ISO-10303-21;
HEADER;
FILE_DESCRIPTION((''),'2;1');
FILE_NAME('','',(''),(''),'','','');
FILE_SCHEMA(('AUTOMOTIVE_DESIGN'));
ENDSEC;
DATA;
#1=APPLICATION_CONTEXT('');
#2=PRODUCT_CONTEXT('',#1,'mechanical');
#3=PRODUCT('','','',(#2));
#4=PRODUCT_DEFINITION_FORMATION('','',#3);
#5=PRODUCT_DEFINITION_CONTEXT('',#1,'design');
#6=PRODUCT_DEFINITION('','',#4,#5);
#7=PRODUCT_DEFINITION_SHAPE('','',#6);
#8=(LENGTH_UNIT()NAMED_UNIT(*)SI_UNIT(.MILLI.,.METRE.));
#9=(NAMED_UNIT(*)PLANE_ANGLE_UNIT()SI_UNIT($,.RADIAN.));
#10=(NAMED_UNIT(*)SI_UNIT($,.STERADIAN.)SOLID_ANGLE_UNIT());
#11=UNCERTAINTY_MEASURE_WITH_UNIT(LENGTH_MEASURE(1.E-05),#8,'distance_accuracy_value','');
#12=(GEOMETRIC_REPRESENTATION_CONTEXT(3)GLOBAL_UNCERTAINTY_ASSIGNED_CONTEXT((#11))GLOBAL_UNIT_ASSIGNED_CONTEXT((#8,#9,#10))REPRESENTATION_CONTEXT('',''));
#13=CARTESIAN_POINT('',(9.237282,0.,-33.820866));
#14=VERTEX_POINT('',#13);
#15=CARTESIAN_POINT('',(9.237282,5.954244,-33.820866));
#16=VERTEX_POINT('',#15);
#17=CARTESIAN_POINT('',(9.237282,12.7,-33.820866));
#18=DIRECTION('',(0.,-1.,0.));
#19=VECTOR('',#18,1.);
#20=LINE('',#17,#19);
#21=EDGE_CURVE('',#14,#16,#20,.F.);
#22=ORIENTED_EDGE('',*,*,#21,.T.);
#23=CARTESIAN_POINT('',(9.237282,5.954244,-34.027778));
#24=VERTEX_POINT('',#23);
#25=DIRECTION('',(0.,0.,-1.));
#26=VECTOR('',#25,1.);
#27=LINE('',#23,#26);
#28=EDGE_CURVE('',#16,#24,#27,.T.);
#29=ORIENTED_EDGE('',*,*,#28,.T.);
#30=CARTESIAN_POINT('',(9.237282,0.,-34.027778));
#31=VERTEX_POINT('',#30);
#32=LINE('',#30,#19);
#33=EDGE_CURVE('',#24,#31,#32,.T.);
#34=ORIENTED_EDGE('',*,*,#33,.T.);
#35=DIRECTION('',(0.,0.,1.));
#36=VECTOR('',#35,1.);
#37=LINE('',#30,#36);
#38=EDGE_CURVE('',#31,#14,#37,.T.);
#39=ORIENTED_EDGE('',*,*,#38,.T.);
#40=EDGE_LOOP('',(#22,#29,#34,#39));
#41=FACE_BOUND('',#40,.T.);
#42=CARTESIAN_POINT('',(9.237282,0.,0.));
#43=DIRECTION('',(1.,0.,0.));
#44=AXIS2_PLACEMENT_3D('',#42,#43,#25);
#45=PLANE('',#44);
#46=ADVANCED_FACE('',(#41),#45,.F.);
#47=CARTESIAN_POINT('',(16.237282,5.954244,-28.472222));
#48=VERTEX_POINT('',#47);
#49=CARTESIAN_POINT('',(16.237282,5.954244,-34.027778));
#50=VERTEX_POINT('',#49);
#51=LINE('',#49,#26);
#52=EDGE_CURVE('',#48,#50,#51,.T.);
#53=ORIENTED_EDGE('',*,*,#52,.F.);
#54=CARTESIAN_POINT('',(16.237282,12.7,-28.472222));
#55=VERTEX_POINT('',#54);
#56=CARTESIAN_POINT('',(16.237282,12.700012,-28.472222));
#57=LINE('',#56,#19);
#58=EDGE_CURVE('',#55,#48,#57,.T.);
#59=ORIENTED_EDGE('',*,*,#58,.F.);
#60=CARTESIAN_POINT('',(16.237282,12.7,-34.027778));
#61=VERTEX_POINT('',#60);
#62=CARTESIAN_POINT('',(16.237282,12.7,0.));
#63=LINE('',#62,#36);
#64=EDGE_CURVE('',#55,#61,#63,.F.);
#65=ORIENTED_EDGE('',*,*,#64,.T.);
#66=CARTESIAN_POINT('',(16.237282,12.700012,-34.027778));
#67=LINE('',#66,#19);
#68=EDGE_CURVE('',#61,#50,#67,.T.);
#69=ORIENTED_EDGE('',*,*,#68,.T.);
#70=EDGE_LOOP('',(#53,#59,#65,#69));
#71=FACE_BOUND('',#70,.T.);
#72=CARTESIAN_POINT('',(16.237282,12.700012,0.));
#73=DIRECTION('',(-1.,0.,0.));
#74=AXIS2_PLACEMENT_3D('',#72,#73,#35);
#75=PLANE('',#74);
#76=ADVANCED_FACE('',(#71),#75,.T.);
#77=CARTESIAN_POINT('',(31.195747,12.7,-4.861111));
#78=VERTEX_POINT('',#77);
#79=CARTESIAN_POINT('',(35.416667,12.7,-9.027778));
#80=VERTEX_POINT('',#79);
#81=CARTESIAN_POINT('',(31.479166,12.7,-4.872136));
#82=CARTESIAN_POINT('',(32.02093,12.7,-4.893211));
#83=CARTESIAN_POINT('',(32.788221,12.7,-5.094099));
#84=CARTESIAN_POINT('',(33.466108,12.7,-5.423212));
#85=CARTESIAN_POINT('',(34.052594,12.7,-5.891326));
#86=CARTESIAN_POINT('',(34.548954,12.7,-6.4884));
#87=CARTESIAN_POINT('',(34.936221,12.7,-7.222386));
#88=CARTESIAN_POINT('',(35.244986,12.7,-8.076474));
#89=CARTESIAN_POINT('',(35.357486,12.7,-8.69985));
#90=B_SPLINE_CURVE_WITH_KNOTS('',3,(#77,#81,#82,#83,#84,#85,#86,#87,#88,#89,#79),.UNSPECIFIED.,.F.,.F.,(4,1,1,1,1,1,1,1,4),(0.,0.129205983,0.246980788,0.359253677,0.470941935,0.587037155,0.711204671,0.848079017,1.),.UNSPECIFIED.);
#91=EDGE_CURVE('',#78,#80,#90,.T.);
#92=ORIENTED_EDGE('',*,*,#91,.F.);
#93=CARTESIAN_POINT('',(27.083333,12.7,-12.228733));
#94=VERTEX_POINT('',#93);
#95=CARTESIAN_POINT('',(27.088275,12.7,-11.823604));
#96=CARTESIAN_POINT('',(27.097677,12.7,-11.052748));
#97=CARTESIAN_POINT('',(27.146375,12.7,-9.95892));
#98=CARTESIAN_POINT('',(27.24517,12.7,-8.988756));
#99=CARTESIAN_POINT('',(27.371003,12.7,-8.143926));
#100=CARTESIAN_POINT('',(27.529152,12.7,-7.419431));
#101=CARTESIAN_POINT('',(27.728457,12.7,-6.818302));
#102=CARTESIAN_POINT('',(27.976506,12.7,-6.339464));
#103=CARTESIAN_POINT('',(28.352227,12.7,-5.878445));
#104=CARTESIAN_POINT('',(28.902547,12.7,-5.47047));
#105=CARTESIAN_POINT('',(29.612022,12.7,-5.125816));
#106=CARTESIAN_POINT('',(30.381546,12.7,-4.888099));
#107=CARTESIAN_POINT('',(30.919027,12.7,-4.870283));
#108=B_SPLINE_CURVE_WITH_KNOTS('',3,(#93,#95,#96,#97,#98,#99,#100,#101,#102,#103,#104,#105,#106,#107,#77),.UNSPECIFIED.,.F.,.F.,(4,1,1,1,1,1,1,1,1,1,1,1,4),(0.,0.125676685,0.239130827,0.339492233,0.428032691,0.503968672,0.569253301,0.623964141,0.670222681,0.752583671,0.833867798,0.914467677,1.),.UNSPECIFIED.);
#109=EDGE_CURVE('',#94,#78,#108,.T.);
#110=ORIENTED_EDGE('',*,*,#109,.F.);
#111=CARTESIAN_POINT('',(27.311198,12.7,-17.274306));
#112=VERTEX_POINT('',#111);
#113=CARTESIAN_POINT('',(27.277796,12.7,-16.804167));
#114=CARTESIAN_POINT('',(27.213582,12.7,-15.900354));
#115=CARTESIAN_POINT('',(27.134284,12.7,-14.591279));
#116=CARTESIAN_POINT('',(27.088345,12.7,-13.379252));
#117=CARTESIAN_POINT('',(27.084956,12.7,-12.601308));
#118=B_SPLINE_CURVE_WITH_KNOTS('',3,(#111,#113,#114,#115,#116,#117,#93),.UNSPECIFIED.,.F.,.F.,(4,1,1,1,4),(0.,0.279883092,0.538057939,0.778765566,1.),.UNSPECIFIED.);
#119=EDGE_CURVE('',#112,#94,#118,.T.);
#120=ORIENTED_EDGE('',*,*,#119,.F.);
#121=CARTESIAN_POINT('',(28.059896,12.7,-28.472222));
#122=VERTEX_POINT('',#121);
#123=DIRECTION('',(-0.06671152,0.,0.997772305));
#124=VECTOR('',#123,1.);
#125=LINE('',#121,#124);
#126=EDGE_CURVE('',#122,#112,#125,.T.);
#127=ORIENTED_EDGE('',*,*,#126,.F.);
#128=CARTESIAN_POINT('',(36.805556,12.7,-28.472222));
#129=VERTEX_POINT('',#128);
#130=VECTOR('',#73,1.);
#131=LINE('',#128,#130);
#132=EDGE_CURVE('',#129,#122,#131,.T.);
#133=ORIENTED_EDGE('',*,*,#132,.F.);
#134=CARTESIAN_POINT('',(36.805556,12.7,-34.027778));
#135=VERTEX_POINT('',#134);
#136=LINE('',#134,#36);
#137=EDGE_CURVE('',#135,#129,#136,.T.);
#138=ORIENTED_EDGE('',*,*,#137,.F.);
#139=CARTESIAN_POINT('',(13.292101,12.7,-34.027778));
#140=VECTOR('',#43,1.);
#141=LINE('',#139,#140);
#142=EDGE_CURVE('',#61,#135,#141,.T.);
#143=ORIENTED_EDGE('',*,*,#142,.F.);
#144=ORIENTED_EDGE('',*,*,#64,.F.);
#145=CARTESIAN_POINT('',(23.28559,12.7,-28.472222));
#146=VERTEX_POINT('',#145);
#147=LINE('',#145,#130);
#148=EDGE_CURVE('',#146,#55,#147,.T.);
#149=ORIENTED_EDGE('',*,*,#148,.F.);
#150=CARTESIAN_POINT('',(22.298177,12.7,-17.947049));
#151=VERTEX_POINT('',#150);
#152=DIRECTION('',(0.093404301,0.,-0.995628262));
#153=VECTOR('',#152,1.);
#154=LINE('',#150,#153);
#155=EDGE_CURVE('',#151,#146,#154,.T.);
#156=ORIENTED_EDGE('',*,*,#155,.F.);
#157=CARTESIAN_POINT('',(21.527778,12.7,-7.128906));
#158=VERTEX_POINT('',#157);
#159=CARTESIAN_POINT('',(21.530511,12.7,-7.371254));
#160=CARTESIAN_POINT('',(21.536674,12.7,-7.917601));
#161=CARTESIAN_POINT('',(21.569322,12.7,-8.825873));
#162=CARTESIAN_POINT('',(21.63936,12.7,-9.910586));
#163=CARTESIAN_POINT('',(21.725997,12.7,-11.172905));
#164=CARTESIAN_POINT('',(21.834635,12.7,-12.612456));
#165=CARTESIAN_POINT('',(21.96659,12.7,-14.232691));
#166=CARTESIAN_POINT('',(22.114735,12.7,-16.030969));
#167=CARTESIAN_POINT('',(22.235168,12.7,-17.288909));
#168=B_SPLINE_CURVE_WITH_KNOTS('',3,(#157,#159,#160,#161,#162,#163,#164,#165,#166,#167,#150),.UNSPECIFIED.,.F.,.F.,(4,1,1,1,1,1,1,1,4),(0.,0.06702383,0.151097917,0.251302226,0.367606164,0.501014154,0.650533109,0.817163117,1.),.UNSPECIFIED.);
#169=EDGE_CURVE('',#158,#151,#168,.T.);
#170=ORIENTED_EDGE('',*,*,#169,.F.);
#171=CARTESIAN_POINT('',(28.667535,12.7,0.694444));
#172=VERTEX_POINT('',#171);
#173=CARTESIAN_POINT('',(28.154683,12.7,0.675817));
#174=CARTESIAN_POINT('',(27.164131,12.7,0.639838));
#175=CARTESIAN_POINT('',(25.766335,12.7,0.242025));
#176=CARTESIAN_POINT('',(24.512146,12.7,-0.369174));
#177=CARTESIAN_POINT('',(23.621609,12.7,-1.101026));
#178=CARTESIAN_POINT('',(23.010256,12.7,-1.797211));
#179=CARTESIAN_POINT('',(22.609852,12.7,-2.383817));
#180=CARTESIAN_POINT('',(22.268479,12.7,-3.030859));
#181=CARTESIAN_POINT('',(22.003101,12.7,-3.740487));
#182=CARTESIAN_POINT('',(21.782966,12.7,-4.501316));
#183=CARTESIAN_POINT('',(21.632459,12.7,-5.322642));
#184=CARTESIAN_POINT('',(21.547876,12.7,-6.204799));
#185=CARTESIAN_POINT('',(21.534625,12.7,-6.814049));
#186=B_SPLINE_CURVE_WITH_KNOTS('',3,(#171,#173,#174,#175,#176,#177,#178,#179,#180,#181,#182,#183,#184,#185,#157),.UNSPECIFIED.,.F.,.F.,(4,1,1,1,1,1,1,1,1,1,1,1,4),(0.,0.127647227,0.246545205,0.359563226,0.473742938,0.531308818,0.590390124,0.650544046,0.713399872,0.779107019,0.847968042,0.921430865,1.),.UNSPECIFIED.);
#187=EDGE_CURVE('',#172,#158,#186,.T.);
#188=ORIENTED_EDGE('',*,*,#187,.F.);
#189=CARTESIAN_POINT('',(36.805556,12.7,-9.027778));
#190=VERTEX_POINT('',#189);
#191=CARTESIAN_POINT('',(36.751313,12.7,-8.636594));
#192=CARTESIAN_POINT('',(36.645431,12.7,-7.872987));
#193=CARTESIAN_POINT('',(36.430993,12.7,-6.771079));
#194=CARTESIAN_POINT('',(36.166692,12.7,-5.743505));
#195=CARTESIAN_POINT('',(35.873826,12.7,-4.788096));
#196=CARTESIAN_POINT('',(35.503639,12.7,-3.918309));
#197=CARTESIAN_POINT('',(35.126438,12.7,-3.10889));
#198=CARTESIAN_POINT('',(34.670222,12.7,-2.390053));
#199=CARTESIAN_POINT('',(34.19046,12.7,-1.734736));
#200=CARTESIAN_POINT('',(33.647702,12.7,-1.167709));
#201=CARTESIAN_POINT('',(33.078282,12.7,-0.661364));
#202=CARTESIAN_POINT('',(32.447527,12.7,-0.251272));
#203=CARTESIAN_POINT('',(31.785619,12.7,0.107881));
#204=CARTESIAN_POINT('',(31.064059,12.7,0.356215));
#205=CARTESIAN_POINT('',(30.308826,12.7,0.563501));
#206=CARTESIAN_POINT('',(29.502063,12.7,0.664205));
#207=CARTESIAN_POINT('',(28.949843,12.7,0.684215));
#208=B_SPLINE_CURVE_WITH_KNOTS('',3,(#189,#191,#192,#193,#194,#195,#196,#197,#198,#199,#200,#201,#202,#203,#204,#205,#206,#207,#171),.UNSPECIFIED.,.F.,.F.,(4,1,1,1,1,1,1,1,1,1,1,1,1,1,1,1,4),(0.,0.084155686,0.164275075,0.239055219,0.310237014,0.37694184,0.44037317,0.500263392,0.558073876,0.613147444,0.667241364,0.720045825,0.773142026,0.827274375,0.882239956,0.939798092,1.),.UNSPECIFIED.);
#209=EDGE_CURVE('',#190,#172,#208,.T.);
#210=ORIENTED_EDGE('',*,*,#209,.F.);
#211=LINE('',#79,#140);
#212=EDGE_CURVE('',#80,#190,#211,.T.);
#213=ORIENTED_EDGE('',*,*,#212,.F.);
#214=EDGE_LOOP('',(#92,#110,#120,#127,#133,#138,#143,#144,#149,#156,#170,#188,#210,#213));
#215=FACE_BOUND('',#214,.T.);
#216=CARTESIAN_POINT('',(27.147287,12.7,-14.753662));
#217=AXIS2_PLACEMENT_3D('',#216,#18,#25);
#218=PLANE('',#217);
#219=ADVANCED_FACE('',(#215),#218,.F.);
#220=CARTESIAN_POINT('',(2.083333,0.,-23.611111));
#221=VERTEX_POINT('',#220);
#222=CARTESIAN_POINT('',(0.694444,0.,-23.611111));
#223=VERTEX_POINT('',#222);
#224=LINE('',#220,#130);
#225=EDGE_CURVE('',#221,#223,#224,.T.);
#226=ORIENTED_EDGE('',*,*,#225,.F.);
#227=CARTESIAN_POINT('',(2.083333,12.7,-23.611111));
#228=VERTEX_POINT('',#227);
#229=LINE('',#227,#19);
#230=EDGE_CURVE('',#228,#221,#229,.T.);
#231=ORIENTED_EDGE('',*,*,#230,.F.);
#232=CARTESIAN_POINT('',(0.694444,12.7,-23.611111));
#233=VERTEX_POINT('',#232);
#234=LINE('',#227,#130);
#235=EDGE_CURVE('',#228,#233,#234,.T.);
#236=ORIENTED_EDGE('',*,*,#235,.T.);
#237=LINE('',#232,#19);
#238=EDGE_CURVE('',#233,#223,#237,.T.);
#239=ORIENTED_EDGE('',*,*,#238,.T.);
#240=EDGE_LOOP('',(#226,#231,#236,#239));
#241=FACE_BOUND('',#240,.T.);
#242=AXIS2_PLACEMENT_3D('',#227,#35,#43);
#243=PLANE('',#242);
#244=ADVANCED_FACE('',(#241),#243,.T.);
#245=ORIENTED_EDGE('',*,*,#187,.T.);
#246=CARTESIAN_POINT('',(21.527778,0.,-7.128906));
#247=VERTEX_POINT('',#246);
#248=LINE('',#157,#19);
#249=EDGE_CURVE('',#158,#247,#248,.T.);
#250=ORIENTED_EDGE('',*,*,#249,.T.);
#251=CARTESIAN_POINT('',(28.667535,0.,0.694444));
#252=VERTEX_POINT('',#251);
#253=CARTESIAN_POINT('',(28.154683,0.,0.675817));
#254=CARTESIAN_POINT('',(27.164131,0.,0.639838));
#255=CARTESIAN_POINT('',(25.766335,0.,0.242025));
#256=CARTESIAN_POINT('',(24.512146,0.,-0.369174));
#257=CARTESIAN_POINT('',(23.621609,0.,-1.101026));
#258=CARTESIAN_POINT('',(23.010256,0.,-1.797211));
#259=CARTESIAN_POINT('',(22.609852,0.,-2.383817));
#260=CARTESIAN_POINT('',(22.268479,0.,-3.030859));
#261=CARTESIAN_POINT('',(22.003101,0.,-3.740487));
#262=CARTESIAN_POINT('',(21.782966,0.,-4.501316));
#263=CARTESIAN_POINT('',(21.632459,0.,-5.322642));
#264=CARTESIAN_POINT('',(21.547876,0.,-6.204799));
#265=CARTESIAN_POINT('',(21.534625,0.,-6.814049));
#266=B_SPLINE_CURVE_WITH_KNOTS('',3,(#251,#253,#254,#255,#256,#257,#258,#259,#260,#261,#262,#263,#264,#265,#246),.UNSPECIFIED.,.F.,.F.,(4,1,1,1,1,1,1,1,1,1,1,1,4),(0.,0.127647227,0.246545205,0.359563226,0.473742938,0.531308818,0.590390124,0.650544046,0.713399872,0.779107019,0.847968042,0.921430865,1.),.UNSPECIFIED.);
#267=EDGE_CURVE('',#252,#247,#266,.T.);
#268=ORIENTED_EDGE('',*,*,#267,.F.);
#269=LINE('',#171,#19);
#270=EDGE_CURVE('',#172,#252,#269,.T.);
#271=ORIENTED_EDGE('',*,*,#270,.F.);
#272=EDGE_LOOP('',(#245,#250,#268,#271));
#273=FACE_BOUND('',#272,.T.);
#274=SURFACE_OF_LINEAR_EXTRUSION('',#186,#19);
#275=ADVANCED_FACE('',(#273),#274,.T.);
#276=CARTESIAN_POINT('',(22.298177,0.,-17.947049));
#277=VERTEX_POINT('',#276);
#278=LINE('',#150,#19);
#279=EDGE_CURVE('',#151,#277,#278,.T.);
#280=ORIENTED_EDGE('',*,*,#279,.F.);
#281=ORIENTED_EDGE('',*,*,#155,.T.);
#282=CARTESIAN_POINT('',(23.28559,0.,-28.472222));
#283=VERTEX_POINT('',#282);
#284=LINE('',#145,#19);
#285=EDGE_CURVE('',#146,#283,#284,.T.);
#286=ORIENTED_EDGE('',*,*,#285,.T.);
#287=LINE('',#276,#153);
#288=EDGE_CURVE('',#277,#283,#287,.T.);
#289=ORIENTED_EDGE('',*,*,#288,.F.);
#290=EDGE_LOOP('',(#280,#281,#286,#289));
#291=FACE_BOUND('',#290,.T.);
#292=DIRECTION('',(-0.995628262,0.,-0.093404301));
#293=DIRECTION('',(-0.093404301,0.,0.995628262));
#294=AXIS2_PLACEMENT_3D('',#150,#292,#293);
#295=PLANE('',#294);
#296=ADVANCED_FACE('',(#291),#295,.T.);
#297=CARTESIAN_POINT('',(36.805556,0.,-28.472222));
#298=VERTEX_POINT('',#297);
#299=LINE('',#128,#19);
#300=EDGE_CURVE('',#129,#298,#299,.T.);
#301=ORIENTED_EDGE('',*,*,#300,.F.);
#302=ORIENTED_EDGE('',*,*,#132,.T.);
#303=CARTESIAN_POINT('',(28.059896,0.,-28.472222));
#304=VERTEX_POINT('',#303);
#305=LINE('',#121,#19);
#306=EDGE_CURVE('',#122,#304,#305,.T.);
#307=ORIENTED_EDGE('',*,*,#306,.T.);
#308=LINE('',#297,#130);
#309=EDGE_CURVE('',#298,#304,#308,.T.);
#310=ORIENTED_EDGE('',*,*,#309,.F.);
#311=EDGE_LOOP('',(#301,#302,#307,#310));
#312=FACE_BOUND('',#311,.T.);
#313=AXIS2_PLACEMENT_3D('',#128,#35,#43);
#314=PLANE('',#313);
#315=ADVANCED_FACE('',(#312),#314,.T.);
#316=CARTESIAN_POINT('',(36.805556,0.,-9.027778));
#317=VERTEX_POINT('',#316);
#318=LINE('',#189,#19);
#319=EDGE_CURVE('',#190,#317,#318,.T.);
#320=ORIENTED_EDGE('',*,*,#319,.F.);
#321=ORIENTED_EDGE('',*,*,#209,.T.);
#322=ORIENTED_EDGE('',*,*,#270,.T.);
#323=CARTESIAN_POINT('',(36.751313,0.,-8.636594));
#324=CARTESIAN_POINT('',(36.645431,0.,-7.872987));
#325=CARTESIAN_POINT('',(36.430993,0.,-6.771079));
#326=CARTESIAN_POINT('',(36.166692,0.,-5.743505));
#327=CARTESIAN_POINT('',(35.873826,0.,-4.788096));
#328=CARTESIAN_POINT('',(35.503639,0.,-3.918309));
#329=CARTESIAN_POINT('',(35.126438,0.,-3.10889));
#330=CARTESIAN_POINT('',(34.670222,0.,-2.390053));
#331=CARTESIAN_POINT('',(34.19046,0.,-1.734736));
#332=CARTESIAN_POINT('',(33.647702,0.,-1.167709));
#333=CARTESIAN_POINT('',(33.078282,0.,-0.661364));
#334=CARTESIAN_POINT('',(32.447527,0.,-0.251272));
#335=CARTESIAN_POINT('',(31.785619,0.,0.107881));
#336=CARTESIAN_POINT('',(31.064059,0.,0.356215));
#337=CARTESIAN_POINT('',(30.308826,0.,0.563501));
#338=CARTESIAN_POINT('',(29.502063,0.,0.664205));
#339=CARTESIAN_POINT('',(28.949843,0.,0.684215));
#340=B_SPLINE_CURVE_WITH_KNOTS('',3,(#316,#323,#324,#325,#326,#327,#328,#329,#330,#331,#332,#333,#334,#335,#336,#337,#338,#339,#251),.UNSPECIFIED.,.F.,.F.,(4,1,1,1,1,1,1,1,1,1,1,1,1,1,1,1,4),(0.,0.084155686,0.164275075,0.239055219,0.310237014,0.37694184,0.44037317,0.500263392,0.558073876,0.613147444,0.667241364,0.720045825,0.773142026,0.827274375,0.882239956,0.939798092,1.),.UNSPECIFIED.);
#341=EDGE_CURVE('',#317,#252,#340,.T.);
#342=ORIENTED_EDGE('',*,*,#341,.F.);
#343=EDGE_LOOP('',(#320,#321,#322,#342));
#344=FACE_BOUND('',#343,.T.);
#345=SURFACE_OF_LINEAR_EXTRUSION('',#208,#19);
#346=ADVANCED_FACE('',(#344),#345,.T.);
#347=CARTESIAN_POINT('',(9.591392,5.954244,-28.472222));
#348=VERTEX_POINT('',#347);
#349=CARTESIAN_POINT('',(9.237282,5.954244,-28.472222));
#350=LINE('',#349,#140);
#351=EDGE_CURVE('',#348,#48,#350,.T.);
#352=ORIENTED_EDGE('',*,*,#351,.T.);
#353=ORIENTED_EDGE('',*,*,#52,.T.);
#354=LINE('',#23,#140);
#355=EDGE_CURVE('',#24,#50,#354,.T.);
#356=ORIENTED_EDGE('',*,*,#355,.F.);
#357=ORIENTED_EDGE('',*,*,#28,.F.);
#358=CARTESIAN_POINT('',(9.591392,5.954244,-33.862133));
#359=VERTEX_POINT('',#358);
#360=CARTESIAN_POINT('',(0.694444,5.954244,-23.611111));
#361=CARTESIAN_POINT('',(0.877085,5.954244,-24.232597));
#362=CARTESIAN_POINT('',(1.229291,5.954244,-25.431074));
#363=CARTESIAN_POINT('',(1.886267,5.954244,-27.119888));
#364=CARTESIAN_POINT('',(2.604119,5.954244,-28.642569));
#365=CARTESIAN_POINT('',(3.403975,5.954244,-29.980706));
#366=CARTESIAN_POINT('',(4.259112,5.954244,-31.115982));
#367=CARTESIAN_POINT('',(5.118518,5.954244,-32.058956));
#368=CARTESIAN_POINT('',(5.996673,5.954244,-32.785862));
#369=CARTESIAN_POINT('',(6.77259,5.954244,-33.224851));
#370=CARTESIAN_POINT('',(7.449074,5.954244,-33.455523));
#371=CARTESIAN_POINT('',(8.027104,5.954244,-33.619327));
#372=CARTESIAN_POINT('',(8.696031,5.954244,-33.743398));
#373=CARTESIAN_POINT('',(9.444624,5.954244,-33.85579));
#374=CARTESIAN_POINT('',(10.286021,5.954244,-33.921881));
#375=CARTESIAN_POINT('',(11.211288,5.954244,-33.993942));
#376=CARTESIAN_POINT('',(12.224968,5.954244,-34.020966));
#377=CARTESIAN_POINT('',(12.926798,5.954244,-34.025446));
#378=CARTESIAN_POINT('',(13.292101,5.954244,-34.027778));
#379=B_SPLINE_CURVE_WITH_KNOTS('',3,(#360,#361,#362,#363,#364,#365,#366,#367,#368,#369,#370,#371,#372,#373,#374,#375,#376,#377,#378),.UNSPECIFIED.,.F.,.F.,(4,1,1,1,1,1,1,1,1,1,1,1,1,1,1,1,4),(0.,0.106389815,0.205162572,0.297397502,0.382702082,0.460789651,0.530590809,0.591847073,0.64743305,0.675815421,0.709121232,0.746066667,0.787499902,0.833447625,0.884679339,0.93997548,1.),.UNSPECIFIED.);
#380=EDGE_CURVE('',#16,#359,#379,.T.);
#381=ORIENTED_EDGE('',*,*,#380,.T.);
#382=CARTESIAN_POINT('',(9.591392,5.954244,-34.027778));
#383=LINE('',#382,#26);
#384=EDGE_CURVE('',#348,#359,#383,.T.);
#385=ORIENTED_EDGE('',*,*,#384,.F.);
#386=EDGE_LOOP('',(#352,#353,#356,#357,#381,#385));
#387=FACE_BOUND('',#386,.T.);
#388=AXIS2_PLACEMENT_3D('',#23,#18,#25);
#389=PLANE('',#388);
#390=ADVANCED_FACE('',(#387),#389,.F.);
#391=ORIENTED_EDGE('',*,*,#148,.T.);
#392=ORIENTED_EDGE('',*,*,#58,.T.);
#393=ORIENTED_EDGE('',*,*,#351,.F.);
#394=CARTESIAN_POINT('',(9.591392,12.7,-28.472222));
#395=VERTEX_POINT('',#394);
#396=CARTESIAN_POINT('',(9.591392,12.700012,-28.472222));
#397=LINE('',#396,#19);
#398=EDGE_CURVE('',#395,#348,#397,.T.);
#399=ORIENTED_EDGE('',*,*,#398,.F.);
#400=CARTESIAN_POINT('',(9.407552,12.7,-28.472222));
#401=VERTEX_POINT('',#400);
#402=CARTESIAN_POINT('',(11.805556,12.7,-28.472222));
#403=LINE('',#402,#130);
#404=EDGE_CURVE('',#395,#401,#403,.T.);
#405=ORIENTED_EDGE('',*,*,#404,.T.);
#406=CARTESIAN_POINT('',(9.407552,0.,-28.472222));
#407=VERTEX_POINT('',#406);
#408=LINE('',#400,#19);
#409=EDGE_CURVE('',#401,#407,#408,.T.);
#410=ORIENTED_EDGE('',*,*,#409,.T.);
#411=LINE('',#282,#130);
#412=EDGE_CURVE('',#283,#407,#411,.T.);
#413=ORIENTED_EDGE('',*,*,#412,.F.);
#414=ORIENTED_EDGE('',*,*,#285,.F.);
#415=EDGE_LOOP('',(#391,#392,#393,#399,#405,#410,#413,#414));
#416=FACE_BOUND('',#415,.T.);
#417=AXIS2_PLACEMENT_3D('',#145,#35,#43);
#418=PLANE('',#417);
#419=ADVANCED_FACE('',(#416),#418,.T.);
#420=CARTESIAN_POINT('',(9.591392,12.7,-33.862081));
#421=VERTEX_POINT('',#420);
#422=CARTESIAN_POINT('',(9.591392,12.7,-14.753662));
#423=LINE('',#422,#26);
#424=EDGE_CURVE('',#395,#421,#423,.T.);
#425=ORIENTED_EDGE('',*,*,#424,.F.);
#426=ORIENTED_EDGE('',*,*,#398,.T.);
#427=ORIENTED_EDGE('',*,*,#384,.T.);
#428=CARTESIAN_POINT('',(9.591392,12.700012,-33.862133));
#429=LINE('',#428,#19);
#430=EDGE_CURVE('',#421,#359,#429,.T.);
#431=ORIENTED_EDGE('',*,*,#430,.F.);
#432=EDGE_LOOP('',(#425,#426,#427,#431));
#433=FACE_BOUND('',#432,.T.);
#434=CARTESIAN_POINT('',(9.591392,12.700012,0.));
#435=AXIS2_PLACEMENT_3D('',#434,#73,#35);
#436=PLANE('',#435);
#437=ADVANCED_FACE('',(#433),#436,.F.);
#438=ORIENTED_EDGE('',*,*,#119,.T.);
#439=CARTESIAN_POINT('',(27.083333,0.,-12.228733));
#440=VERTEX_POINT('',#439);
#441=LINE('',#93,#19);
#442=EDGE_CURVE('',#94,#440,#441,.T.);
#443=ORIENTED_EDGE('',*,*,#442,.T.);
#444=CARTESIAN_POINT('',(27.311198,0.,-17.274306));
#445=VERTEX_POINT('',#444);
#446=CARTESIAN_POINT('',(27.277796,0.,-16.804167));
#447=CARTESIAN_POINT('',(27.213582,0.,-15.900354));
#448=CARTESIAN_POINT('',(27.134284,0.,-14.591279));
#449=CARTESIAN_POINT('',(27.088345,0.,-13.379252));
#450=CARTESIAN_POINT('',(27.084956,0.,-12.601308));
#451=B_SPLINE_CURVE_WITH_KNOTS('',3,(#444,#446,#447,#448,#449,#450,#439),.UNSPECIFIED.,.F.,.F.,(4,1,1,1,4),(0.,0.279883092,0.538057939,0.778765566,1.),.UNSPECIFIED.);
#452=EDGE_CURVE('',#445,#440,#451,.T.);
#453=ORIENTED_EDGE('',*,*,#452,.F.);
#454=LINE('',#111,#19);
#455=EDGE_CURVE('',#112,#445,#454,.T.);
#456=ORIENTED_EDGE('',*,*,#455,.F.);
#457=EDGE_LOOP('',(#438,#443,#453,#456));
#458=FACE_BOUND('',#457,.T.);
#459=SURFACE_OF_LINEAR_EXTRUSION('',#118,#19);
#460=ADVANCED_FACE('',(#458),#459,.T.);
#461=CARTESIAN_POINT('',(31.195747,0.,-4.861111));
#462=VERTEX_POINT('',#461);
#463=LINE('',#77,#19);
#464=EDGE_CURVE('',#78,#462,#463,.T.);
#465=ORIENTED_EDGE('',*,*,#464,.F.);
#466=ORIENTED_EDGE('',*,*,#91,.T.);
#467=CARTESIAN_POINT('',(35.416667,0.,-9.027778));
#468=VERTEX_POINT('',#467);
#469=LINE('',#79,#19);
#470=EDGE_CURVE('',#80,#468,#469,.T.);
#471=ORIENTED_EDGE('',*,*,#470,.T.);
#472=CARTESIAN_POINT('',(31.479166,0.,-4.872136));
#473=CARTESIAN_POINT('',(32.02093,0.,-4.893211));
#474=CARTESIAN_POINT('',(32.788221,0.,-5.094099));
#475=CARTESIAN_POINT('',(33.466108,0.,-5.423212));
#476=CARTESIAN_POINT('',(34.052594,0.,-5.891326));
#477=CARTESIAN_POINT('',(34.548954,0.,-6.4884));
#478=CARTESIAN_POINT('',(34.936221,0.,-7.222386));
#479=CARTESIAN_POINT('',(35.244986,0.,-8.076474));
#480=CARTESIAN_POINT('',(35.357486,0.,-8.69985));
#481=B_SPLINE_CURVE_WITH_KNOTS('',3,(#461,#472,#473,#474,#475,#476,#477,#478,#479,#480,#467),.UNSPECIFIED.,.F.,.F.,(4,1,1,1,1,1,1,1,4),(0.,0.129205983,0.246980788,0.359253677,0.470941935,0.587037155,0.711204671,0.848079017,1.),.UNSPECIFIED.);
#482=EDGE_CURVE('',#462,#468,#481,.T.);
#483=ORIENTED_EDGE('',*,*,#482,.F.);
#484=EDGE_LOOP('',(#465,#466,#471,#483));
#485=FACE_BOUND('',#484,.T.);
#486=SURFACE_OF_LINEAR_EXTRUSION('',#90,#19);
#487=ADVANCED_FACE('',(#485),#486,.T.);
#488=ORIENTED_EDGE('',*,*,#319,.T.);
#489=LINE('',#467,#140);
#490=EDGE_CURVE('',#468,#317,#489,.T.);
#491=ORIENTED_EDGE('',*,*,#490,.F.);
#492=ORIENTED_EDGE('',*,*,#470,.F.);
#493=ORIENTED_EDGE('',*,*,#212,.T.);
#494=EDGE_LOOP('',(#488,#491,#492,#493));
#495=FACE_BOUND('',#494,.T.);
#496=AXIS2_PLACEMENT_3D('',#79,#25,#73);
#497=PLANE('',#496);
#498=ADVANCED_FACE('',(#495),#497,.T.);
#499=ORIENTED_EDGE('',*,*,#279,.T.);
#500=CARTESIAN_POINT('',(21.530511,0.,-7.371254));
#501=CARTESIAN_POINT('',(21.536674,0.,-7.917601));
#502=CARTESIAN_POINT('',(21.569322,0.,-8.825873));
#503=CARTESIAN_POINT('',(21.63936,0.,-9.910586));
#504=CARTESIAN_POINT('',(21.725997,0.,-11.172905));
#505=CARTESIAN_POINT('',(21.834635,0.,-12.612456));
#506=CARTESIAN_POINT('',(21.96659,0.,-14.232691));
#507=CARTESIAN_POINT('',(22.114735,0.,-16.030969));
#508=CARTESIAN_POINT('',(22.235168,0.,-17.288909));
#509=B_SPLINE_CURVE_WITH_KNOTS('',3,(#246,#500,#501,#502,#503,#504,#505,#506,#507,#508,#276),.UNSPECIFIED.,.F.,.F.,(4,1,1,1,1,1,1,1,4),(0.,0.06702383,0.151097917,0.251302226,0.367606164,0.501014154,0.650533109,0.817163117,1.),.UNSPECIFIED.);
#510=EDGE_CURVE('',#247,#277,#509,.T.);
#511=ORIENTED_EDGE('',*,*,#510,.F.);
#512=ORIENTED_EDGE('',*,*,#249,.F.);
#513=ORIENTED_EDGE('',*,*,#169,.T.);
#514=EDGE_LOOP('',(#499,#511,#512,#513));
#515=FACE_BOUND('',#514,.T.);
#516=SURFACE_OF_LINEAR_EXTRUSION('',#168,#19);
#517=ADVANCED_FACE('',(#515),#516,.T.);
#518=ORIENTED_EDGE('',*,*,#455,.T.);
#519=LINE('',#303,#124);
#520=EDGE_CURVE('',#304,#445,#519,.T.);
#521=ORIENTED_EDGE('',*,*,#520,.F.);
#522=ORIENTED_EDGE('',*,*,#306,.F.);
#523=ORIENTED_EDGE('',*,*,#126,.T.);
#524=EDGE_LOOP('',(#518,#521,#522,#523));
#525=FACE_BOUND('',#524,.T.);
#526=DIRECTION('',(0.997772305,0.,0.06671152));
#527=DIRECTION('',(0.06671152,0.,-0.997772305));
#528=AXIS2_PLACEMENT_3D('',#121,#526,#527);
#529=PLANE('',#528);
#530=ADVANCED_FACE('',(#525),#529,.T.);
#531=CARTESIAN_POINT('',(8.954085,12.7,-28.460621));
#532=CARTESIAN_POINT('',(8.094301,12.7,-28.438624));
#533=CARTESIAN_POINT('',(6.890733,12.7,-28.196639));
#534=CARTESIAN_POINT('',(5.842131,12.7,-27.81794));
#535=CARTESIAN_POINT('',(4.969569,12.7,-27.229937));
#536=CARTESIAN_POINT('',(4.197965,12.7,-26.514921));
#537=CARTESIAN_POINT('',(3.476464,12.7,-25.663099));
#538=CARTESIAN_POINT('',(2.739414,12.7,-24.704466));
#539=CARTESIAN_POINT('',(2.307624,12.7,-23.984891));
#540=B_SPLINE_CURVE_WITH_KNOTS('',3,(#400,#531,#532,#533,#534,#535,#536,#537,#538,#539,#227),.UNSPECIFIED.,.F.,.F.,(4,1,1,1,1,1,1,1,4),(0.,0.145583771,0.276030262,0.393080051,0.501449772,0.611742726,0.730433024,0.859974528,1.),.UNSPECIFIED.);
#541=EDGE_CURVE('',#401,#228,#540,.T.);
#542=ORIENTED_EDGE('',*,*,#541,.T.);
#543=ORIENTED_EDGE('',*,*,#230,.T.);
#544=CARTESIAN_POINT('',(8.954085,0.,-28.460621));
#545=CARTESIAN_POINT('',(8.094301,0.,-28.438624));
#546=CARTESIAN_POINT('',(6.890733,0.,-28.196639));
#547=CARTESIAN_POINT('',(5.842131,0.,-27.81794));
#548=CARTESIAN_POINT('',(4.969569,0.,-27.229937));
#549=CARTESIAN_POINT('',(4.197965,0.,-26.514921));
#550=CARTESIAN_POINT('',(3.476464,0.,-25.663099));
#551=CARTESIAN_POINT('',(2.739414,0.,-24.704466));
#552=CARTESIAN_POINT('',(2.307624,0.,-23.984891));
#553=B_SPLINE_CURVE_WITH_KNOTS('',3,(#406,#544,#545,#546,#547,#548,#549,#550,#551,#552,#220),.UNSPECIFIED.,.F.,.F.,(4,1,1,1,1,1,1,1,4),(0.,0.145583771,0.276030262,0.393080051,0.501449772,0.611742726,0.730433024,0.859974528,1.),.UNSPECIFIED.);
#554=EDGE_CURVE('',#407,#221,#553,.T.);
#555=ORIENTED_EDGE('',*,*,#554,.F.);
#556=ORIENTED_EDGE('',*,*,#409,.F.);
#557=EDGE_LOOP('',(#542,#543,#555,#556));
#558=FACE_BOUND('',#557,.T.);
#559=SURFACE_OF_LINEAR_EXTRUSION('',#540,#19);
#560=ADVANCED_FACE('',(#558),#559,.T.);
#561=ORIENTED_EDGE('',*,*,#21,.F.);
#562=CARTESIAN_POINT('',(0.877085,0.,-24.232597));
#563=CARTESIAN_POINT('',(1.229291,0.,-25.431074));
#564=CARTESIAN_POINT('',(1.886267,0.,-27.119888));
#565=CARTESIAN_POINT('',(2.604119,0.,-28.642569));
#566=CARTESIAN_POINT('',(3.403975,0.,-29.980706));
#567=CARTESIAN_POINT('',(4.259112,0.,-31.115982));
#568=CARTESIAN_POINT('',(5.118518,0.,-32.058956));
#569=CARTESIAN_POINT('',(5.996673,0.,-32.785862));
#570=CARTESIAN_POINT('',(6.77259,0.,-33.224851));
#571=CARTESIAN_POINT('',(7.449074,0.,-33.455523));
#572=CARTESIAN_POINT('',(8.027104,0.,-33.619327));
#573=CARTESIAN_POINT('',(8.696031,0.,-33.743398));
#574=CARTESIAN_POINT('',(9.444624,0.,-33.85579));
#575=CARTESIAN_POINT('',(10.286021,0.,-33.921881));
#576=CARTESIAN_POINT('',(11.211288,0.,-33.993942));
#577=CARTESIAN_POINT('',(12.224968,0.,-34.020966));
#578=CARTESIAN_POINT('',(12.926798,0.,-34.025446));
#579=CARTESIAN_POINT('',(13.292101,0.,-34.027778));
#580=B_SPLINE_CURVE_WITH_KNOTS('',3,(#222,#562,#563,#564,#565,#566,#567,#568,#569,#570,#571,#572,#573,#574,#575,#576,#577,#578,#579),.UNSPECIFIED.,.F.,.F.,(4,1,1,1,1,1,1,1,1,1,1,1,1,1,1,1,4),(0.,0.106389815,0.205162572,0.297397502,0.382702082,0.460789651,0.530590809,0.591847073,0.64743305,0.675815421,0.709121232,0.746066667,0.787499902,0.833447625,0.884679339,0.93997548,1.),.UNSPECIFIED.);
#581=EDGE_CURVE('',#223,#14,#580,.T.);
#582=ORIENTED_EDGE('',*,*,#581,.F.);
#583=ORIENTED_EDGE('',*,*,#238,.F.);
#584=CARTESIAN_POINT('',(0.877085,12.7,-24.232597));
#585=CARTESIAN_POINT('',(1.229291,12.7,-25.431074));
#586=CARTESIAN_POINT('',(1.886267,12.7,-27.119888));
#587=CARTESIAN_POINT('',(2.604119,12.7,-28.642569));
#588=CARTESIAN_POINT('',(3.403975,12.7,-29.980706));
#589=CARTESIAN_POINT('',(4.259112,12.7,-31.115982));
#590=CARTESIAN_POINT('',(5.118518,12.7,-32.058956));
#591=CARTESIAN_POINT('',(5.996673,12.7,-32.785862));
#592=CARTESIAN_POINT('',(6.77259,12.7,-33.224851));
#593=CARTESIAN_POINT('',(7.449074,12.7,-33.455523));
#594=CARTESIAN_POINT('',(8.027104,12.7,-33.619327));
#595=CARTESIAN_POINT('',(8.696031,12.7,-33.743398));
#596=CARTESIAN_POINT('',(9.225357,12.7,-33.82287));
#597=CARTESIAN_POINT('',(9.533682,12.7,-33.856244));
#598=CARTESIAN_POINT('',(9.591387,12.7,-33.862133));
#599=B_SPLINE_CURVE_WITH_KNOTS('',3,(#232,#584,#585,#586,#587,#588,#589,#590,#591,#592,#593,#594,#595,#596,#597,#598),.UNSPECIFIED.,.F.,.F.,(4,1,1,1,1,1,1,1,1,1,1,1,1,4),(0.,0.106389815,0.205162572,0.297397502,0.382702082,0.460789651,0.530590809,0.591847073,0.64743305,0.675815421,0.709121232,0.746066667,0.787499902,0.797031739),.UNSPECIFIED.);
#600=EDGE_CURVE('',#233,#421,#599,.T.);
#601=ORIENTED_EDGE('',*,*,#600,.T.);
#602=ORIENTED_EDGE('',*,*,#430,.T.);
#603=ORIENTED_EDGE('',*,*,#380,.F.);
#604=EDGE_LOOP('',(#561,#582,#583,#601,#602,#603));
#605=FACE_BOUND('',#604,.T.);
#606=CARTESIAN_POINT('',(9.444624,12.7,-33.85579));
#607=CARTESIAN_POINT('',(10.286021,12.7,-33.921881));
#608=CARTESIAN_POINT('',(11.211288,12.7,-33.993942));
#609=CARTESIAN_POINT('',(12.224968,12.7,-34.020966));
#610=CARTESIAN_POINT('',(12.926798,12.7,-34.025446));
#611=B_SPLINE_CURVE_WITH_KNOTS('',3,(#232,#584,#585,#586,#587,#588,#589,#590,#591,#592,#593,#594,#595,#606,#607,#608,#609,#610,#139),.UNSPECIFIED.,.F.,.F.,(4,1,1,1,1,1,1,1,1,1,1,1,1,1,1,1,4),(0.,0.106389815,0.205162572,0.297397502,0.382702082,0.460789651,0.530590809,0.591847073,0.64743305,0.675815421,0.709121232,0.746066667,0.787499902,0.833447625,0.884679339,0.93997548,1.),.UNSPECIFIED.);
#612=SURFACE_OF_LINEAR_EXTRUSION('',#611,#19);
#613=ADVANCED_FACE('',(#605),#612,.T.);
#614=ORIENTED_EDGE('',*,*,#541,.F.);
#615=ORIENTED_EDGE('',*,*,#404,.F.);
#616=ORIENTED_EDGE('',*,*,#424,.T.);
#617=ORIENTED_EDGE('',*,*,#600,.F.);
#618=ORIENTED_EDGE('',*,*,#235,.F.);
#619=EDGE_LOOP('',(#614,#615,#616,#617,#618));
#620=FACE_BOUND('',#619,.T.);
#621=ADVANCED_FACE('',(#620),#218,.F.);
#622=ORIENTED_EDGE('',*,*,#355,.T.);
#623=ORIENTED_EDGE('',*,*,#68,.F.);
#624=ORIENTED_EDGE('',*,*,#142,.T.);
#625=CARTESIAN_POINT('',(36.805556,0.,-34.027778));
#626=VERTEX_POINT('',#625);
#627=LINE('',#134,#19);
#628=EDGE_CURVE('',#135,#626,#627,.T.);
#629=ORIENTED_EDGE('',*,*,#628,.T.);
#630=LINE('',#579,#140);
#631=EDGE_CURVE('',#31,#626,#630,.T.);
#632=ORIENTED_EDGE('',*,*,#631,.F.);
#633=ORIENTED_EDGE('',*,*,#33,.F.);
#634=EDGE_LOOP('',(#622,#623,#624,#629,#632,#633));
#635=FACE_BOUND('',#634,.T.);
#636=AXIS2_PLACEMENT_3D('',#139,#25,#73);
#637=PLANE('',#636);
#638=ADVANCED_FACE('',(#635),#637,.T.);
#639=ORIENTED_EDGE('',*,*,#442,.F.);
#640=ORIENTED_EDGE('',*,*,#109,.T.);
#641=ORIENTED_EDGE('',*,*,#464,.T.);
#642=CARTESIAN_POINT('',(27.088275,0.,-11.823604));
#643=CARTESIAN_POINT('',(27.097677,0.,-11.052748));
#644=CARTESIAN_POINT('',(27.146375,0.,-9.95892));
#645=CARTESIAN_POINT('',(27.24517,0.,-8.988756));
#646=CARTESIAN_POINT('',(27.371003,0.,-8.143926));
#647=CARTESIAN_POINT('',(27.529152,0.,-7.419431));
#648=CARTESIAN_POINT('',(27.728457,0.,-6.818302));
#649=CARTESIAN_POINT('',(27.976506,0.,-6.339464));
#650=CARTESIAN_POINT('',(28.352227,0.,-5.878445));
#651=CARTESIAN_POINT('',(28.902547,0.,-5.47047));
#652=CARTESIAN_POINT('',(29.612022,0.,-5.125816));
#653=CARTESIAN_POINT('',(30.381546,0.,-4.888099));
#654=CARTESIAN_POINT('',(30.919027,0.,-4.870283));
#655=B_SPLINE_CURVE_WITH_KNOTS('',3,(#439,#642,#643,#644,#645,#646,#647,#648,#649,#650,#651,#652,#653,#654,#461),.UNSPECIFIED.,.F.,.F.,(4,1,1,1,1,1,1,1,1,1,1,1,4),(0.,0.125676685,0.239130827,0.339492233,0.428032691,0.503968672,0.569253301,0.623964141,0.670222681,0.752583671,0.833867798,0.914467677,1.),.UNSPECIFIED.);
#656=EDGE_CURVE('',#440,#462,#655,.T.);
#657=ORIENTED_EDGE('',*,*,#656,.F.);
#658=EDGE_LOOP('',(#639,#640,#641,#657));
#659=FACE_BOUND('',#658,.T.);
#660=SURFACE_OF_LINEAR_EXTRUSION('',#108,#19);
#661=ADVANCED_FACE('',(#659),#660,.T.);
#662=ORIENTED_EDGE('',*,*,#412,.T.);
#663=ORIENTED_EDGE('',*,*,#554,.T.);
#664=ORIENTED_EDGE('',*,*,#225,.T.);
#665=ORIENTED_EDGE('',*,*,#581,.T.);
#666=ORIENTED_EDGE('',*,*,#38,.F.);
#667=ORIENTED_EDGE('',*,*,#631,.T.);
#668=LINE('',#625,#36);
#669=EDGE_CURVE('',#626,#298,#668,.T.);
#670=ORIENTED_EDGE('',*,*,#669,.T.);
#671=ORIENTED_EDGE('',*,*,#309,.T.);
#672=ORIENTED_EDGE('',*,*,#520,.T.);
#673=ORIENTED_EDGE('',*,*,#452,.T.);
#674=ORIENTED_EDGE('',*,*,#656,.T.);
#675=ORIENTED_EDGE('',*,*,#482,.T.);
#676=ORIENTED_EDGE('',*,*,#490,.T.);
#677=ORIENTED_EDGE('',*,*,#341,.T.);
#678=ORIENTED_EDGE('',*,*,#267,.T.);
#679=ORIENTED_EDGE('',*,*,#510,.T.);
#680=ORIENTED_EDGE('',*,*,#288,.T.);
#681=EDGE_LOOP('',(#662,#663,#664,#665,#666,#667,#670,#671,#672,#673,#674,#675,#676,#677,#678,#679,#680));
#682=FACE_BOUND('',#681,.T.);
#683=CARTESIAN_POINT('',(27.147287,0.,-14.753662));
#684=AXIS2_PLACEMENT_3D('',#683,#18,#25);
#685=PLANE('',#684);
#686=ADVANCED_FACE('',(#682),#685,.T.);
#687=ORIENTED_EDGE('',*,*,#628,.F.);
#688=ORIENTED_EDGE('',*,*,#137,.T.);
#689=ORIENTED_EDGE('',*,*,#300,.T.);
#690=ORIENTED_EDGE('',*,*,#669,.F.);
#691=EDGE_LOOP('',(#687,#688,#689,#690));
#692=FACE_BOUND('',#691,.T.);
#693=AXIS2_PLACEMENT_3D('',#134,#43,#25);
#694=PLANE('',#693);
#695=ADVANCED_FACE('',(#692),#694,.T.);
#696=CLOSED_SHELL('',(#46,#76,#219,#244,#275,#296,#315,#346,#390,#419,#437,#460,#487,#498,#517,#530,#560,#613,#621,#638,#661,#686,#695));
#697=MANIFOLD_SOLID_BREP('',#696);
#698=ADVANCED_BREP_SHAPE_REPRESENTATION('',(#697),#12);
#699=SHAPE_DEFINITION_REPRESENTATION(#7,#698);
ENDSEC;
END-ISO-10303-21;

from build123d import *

# Parameters (mm, degrees)
BOSS_EXTRUDE1_DEPTH     = 12.7
CUT_EXTRUDE2_DEPTH      = 52.709076543
CUT_EXTRUDE2_DEPTH_BACK = 12.7
SKETCH4_W               = 5.555555556
SKETCH4_H               = 5.954243766
BOSS_EXTRUDE2_DEPTH     = 7


with BuildPart() as part:
    # Sketch2 → Boss-Extrude1 (new body)
    with BuildSketch(Plane(origin=(0, 0, 0), x_dir=(1, 0, 0), z_dir=(0, 1, 0))):
        with BuildLine():
            Line((36.805555556, 34.027777778), (36.805555556, 28.472222222))
            Line((36.805555556, 28.472222222), (28.059895833, 28.472222222))
            Line((28.059895833, 28.472222222), (27.311197917, 17.274305556))
            add(Edge.make_bspline(
                [(27.311197917, 17.274305556), (27.277795656, 16.804166639), (27.213581874, 15.900353642), (27.134284285, 14.591279231), (27.088344823, 13.379251723), (27.084956214, 12.601307574), (27.083333333, 12.228732639)],
                knots=[0, 0, 0, 0, 1.119532368, 2.152231754, 3.115062263, 4, 4, 4, 4], degree=3))
            add(Edge.make_bspline(
                [(27.083333333, 12.228732639), (27.088274581, 11.823604319), (27.097676522, 11.052747972), (27.1463749, 9.958919939), (27.245170271, 8.988755862), (27.371002693, 8.143926135), (27.529152233, 7.419430528), (27.728457334, 6.818301639), (27.97650636, 6.339464464), (28.352227221, 5.878445418), (28.902546694, 5.47047021), (29.612022333, 5.12581616), (30.381545964, 4.888099058), (30.919027092, 4.870283408), (31.195746528, 4.861111111)],
                knots=[0, 0, 0, 0, 1.508120221, 2.869569927, 4.073906796, 5.136392291, 6.047624064, 6.831039609, 7.487569696, 8.042672177, 9.031004047, 10.006413578, 10.97361213, 12, 12, 12, 12], degree=3))
            add(Edge.make_bspline(
                [(31.195746528, 4.861111111), (31.47916585, 4.872136088), (32.020929674, 4.893210634), (32.788220791, 5.094099051), (33.466107529, 5.423211567), (34.05259416, 5.891325855), (34.548953998, 6.488400226), (34.936220725, 7.22238631), (35.244986398, 8.076473761), (35.357486114, 8.699850181), (35.416666667, 9.027777778)],
                knots=[0, 0, 0, 0, 1.033647866, 1.975846305, 2.874029418, 3.767535477, 4.696297243, 5.689637366, 6.784632136, 8, 8, 8, 8], degree=3))
            Line((35.416666667, 9.027777778), (36.805555556, 9.027777778))
            add(Edge.make_bspline(
                [(36.805555556, 9.027777778), (36.751313392, 8.636593642), (36.645430641, 7.872987448), (36.430993277, 6.771079076), (36.1666915, 5.743505172), (35.873825885, 4.788096172), (35.503638642, 3.918308722), (35.126438428, 3.108890157), (34.67022236, 2.39005292), (34.190460036, 1.734735752), (33.64770155, 1.167708505), (33.078282467, 0.661363985), (32.447526517, 0.251271838), (31.785619175, -0.107880779), (31.064059185, -0.356214557), (30.308826122, -0.563500536), (29.502063403, -0.664205141), (28.949843487, -0.684214933), (28.667534722, -0.694444444)],
                knots=[0, 0, 0, 0, 1.346490984, 2.628401203, 3.824883511, 4.963792231, 6.031069444, 7.045970716, 8.004214277, 8.929182016, 9.810359102, 10.675861826, 11.520733207, 12.370272421, 13.236390006, 14.115839292, 15.03676947, 16, 16, 16, 16], degree=3))
            add(Edge.make_bspline(
                [(28.667534722, -0.694444444), (28.154682861, -0.675816782), (27.164131243, -0.639838242), (25.766335044, -0.242024901), (24.512145619, 0.369174112), (23.621609051, 1.101026149), (23.010255911, 1.797210882), (22.609852371, 2.383817061), (22.268478936, 3.030858971), (22.003101082, 3.740487332), (21.782965902, 4.501315843), (21.632459475, 5.322642072), (21.547875637, 6.204798769), (21.53462541, 6.814049436), (21.527777778, 7.12890625)],
                knots=[0, 0, 0, 0, 1.53176672, 2.958542455, 4.314758716, 5.68491526, 6.375705814, 7.084681483, 7.806528549, 8.560798466, 9.349284224, 10.175616502, 11.057170379, 12, 12, 12, 12], degree=3))
            add(Edge.make_bspline(
                [(21.527777778, 7.12890625), (21.530511411, 7.37125412), (21.536674087, 7.917600965), (21.569321673, 8.825873224), (21.639359606, 9.910585643), (21.725996598, 11.172904628), (21.834635018, 12.612456183), (21.96658957, 14.232690848), (22.114735136, 16.030968586), (22.235168036, 17.288909187), (22.298177083, 17.947048611)],
                knots=[0, 0, 0, 0, 0.536190643, 1.208783333, 2.010417809, 2.94084931, 4.00811323, 5.204264869, 6.537304937, 8, 8, 8, 8], degree=3))
            Line((22.298177083, 17.947048611), (23.285590278, 28.472222222))
            Line((23.285590278, 28.472222222), (15.277777778, 28.472222222))
            add(Edge.make_bspline(
                [(15.277777778, 28.472222222), (15.214460278, 27.401507925), (15.092072877, 25.331907254), (14.886109564, 22.340596723), (14.670777515, 19.573381685), (14.442846588, 17.030553937), (14.208342944, 14.71137929), (13.954506302, 12.617981517), (13.715610292, 10.74508508), (13.436521107, 9.086740026), (13.164846669, 7.602952782), (12.886850841, 6.270387957), (12.590238795, 5.07441313), (12.303899426, 4.011159992), (12.003972777, 3.085637953), (11.686744628, 2.301603715), (11.378814424, 1.642404725), (10.958043065, 0.964152103), (10.358101863, 0.292051075), (9.505081424, -0.285187523), (8.526340218, -0.641645855), (7.833640049, -0.676470824), (7.476128472, -0.694444444)],
                knots=[0, 0, 0, 0, 2.01044623, 3.886023449, 5.620111306, 7.212895615, 8.671360263, 9.989066837, 11.16552434, 12.209857215, 13.140654073, 13.99296191, 14.760845937, 15.449993852, 16.056713946, 16.582946555, 17.034739681, 17.418487115, 18.076100987, 18.706013306, 19.33215662, 20, 20, 20, 20], degree=3))
            add(Edge.make_bspline(
                [(7.476128472, -0.694444444), (7.207412809, -0.681627697), (6.681489385, -0.656543087), (5.927311086, -0.469815134), (5.234803565, -0.159026243), (4.623769653, 0.271526397), (4.10585267, 0.797998542), (3.737602188, 1.427988796), (3.515453468, 2.133829731), (3.486861324, 2.631486012), (3.472222222, 2.886284722)],
                knots=[0, 0, 0, 0, 1.073515936, 2.101057932, 3.084730514, 4.091615775, 5.073373561, 6.013242394, 6.982785322, 8, 8, 8, 8], degree=3))
            add(Edge.make_bspline(
                [(3.472222222, 2.886284722), (3.49977796, 3.167601475), (3.56174898, 3.800264126), (3.975195909, 4.785596558), (4.58793497, 5.912424554), (5.130000946, 6.671771181), (5.425347222, 7.085503472)],
                knots=[0, 0, 0, 0, 0.719350384, 1.617771125, 2.702035439, 4, 4, 4, 4], degree=3))
            add(Edge.make_bspline(
                [(5.425347222, 7.085503472), (5.880890291, 7.733268934), (6.778468477, 9.009592048), (7.924062056, 11.019134082), (8.912809694, 13.051591024), (9.583491505, 14.814505434), (10.052627408, 16.316401679), (10.355193153, 17.603017915), (10.666713374, 19.033013262), (10.926646603, 20.624922957), (11.194761694, 22.366552488), (11.410609585, 24.268277428), (11.637107009, 26.317618199), (11.748122743, 27.737606389), (11.805555556, 28.472222222)],
                knots=[0, 0, 0, 0, 1.256859471, 2.476450027, 3.668368903, 4.842737386, 5.467680022, 6.165560467, 6.940549266, 7.791280764, 8.726175375, 9.738470097, 10.830021485, 12, 12, 12, 12], degree=3))
            Line((11.805555556, 28.472222222), (9.407552083, 28.472222222))
            add(Edge.make_bspline(
                [(9.407552083, 28.472222222), (8.954085196, 28.460620671), (8.094301289, 28.438623856), (6.890732805, 28.196638527), (5.842130851, 27.81794011), (4.969568852, 27.229936528), (4.197964836, 26.514921386), (3.47646424, 25.663099106), (2.739413588, 24.704465568), (2.307624449, 23.984891132), (2.083333333, 23.611111111)],
                knots=[0, 0, 0, 0, 1.164670171, 2.208242094, 3.144640406, 4.011598175, 4.893941805, 5.843464191, 6.879796223, 8, 8, 8, 8], degree=3))
            Line((2.083333333, 23.611111111), (0.694444444, 23.611111111))
            add(Edge.make_bspline(
                [(0.694444444, 23.611111111), (0.877085401, 24.232597394), (1.229291, 25.431074191), (1.886266978, 27.119888333), (2.60411942, 28.642568556), (3.40397479, 29.980706486), (4.259111756, 31.115981615), (5.118517845, 32.058955597), (5.996672541, 32.785861584), (6.772590288, 33.224850634), (7.449074281, 33.455523285), (8.027104125, 33.619326955), (8.696031334, 33.743397524), (9.444623844, 33.855790163), (10.28602055, 33.921881494), (11.211287579, 33.993942488), (12.22496831, 34.020966417), (12.926797761, 34.025446099), (13.292100694, 34.027777778)],
                knots=[0, 0, 0, 0, 1.702237036, 3.282601159, 4.758360036, 6.123233304, 7.372634412, 8.489452943, 9.469553166, 10.358928799, 10.813046741, 11.345939706, 11.937066667, 12.599998432, 13.335161994, 14.154869419, 15.039607681, 16, 16, 16, 16], degree=3))
            Line((13.292100694, 34.027777778), (36.805555556, 34.027777778))
        make_face()
    extrude(amount=BOSS_EXTRUDE1_DEPTH)

    # Sketch3 → Cut-Extrude2 (cut, two sides: drawn at the far end of the back side and taken through both)
    with BuildSketch(Plane(origin=(0, 12.7, 0), x_dir=(1, 0, 0), z_dir=(0, 1, 0)).offset(-CUT_EXTRUDE2_DEPTH_BACK)):
        with BuildLine():
            Line((15.277777778, 28.472222222), (11.805555556, 28.472222222))
            add(Edge.make_bspline(
                [(11.805555556, 28.472222222), (11.748122743, 27.737606389), (11.637107009, 26.317618199), (11.410609585, 24.268277428), (11.194761694, 22.366552488), (10.926646603, 20.624922957), (10.666713374, 19.033013262), (10.355193153, 17.603017915), (10.052627408, 16.316401679), (9.583491505, 14.814505434), (8.912809694, 13.051591024), (7.924062056, 11.019134082), (6.778468477, 9.009592048), (5.880890291, 7.733268934), (5.425347222, 7.085503472)],
                knots=[0, 0, 0, 0, 0.09749821, 0.188460825, 0.272818719, 0.350726603, 0.421620894, 0.486203294, 0.544359998, 0.596438551, 0.694302591, 0.793629164, 0.895261711, 1, 1, 1, 1], degree=3))
            add(Edge.make_bspline(
                [(5.425347222, 7.085503472), (5.130000946, 6.671771181), (4.58793497, 5.912424554), (3.975195909, 4.785596558), (3.56174898, 3.800264126), (3.49977796, 3.167601475), (3.472222222, 2.886284722)],
                knots=[0, 0, 0, 0, 0.32449114, 0.595557219, 0.820162404, 1, 1, 1, 1], degree=3))
            add(Edge.make_bspline(
                [(3.472222222, 2.886284722), (3.486861324, 2.631486012), (3.515453468, 2.133829731), (3.737602188, 1.427988796), (4.10585267, 0.797998542), (4.623769653, 0.271526397), (5.234803565, -0.159026243), (5.927311086, -0.469815134), (6.681489385, -0.656543087), (7.207412809, -0.681627697), (7.476128472, -0.694444444)],
                knots=[0, 0, 0, 0, 0.127151835, 0.248344701, 0.365828305, 0.488548028, 0.614408686, 0.737367758, 0.865810508, 1, 1, 1, 1], degree=3))
            add(Edge.make_bspline(
                [(7.476128472, -0.694444444), (7.833640049, -0.676470824), (8.526340218, -0.641645855), (9.505081424, -0.285187523), (10.358101863, 0.292051075), (10.958043065, 0.964152103), (11.378814424, 1.642404725), (11.686744628, 2.301603715), (12.003972777, 3.085637953), (12.303899426, 4.011159992), (12.590238795, 5.07441313), (12.886850841, 6.270387957), (13.164846669, 7.602952782), (13.436521107, 9.086740026), (13.715610292, 10.74508508), (13.954506302, 12.617981517), (14.208342944, 14.71137929), (14.442846588, 17.030553937), (14.670777515, 19.573381685), (14.886109564, 22.340596723), (15.092072877, 25.331907254), (15.214460278, 27.401507925), (15.277777778, 28.472222222)],
                knots=[0, 0, 0, 0, 0.033392169, 0.064699335, 0.096194951, 0.129075644, 0.148263016, 0.170852672, 0.197164303, 0.227500307, 0.261957703, 0.300351905, 0.342967296, 0.389507139, 0.441723783, 0.500546658, 0.566431987, 0.639355219, 0.718994435, 0.805698828, 0.899477689, 1, 1, 1, 1], degree=3))
        make_face()
        with BuildLine():
            Line((9.591392396, 33.862133441), (9.591392396, 28.472222222))
            Line((9.591392396, 28.472222222), (11.805555556, 28.472222222))
            Line((11.805555556, 28.472222222), (15.277777778, 28.472222222))
            Line((15.277777778, 28.472222222), (16.237282416, 28.472222222))
            Line((16.237282416, 28.472222222), (16.237282416, 34.027777778))
            Line((16.237282416, 34.027777778), (13.292100694, 34.027777778))
            add(Edge.make_bspline(
                [(13.292100694, 34.027777778), (12.926797761, 34.025446099), (12.22496831, 34.020966417), (11.211287579, 33.993942488), (10.343864349, 33.926386444), (9.811849706, 33.884631797), (9.591392396, 33.862133441)],
                knots=[0, 0, 0, 0, 0.06002452, 0.115320661, 0.166552375, 0.202967967, 0.202967967, 0.202967967, 0.202967967], degree=3))
        make_face()
    extrude(amount=CUT_EXTRUDE2_DEPTH + CUT_EXTRUDE2_DEPTH_BACK, mode=Mode.SUBTRACT)


with BuildPart() as cut_extrude2_piece_1:
    # of the separate pieces the step leaves, piece 1, a body of its own (cut_extrude2_pieces)
    add(part.part.solids().sort_by_distance((36.805555556, 0, -34.027777778))[0])



with BuildPart() as cut_extrude2_piece_2:
    # of the separate pieces the step leaves, piece 2, a body of its own (cut_extrude2_pieces)
    add(part.part.solids().sort_by_distance((0.694444444, 0, -23.611111111))[0])


with BuildPart() as cut_extrude2_piece_1_1:
    add(cut_extrude2_piece_1.part)

    add(cut_extrude2_piece_2.part)  # Boss-Extrude2 merges Cut-Extrude2 piece 2
    # Sketch4 → Boss-Extrude2 (add)
    with BuildSketch(Plane.ZY.offset(-16.237282416)):
        with Locations((-31.25, 2.977121883)):
            Rectangle(SKETCH4_W, SKETCH4_H)
    extrude(amount=BOSS_EXTRUDE2_DEPTH)


solid = cut_extrude2_piece_1_1.part
